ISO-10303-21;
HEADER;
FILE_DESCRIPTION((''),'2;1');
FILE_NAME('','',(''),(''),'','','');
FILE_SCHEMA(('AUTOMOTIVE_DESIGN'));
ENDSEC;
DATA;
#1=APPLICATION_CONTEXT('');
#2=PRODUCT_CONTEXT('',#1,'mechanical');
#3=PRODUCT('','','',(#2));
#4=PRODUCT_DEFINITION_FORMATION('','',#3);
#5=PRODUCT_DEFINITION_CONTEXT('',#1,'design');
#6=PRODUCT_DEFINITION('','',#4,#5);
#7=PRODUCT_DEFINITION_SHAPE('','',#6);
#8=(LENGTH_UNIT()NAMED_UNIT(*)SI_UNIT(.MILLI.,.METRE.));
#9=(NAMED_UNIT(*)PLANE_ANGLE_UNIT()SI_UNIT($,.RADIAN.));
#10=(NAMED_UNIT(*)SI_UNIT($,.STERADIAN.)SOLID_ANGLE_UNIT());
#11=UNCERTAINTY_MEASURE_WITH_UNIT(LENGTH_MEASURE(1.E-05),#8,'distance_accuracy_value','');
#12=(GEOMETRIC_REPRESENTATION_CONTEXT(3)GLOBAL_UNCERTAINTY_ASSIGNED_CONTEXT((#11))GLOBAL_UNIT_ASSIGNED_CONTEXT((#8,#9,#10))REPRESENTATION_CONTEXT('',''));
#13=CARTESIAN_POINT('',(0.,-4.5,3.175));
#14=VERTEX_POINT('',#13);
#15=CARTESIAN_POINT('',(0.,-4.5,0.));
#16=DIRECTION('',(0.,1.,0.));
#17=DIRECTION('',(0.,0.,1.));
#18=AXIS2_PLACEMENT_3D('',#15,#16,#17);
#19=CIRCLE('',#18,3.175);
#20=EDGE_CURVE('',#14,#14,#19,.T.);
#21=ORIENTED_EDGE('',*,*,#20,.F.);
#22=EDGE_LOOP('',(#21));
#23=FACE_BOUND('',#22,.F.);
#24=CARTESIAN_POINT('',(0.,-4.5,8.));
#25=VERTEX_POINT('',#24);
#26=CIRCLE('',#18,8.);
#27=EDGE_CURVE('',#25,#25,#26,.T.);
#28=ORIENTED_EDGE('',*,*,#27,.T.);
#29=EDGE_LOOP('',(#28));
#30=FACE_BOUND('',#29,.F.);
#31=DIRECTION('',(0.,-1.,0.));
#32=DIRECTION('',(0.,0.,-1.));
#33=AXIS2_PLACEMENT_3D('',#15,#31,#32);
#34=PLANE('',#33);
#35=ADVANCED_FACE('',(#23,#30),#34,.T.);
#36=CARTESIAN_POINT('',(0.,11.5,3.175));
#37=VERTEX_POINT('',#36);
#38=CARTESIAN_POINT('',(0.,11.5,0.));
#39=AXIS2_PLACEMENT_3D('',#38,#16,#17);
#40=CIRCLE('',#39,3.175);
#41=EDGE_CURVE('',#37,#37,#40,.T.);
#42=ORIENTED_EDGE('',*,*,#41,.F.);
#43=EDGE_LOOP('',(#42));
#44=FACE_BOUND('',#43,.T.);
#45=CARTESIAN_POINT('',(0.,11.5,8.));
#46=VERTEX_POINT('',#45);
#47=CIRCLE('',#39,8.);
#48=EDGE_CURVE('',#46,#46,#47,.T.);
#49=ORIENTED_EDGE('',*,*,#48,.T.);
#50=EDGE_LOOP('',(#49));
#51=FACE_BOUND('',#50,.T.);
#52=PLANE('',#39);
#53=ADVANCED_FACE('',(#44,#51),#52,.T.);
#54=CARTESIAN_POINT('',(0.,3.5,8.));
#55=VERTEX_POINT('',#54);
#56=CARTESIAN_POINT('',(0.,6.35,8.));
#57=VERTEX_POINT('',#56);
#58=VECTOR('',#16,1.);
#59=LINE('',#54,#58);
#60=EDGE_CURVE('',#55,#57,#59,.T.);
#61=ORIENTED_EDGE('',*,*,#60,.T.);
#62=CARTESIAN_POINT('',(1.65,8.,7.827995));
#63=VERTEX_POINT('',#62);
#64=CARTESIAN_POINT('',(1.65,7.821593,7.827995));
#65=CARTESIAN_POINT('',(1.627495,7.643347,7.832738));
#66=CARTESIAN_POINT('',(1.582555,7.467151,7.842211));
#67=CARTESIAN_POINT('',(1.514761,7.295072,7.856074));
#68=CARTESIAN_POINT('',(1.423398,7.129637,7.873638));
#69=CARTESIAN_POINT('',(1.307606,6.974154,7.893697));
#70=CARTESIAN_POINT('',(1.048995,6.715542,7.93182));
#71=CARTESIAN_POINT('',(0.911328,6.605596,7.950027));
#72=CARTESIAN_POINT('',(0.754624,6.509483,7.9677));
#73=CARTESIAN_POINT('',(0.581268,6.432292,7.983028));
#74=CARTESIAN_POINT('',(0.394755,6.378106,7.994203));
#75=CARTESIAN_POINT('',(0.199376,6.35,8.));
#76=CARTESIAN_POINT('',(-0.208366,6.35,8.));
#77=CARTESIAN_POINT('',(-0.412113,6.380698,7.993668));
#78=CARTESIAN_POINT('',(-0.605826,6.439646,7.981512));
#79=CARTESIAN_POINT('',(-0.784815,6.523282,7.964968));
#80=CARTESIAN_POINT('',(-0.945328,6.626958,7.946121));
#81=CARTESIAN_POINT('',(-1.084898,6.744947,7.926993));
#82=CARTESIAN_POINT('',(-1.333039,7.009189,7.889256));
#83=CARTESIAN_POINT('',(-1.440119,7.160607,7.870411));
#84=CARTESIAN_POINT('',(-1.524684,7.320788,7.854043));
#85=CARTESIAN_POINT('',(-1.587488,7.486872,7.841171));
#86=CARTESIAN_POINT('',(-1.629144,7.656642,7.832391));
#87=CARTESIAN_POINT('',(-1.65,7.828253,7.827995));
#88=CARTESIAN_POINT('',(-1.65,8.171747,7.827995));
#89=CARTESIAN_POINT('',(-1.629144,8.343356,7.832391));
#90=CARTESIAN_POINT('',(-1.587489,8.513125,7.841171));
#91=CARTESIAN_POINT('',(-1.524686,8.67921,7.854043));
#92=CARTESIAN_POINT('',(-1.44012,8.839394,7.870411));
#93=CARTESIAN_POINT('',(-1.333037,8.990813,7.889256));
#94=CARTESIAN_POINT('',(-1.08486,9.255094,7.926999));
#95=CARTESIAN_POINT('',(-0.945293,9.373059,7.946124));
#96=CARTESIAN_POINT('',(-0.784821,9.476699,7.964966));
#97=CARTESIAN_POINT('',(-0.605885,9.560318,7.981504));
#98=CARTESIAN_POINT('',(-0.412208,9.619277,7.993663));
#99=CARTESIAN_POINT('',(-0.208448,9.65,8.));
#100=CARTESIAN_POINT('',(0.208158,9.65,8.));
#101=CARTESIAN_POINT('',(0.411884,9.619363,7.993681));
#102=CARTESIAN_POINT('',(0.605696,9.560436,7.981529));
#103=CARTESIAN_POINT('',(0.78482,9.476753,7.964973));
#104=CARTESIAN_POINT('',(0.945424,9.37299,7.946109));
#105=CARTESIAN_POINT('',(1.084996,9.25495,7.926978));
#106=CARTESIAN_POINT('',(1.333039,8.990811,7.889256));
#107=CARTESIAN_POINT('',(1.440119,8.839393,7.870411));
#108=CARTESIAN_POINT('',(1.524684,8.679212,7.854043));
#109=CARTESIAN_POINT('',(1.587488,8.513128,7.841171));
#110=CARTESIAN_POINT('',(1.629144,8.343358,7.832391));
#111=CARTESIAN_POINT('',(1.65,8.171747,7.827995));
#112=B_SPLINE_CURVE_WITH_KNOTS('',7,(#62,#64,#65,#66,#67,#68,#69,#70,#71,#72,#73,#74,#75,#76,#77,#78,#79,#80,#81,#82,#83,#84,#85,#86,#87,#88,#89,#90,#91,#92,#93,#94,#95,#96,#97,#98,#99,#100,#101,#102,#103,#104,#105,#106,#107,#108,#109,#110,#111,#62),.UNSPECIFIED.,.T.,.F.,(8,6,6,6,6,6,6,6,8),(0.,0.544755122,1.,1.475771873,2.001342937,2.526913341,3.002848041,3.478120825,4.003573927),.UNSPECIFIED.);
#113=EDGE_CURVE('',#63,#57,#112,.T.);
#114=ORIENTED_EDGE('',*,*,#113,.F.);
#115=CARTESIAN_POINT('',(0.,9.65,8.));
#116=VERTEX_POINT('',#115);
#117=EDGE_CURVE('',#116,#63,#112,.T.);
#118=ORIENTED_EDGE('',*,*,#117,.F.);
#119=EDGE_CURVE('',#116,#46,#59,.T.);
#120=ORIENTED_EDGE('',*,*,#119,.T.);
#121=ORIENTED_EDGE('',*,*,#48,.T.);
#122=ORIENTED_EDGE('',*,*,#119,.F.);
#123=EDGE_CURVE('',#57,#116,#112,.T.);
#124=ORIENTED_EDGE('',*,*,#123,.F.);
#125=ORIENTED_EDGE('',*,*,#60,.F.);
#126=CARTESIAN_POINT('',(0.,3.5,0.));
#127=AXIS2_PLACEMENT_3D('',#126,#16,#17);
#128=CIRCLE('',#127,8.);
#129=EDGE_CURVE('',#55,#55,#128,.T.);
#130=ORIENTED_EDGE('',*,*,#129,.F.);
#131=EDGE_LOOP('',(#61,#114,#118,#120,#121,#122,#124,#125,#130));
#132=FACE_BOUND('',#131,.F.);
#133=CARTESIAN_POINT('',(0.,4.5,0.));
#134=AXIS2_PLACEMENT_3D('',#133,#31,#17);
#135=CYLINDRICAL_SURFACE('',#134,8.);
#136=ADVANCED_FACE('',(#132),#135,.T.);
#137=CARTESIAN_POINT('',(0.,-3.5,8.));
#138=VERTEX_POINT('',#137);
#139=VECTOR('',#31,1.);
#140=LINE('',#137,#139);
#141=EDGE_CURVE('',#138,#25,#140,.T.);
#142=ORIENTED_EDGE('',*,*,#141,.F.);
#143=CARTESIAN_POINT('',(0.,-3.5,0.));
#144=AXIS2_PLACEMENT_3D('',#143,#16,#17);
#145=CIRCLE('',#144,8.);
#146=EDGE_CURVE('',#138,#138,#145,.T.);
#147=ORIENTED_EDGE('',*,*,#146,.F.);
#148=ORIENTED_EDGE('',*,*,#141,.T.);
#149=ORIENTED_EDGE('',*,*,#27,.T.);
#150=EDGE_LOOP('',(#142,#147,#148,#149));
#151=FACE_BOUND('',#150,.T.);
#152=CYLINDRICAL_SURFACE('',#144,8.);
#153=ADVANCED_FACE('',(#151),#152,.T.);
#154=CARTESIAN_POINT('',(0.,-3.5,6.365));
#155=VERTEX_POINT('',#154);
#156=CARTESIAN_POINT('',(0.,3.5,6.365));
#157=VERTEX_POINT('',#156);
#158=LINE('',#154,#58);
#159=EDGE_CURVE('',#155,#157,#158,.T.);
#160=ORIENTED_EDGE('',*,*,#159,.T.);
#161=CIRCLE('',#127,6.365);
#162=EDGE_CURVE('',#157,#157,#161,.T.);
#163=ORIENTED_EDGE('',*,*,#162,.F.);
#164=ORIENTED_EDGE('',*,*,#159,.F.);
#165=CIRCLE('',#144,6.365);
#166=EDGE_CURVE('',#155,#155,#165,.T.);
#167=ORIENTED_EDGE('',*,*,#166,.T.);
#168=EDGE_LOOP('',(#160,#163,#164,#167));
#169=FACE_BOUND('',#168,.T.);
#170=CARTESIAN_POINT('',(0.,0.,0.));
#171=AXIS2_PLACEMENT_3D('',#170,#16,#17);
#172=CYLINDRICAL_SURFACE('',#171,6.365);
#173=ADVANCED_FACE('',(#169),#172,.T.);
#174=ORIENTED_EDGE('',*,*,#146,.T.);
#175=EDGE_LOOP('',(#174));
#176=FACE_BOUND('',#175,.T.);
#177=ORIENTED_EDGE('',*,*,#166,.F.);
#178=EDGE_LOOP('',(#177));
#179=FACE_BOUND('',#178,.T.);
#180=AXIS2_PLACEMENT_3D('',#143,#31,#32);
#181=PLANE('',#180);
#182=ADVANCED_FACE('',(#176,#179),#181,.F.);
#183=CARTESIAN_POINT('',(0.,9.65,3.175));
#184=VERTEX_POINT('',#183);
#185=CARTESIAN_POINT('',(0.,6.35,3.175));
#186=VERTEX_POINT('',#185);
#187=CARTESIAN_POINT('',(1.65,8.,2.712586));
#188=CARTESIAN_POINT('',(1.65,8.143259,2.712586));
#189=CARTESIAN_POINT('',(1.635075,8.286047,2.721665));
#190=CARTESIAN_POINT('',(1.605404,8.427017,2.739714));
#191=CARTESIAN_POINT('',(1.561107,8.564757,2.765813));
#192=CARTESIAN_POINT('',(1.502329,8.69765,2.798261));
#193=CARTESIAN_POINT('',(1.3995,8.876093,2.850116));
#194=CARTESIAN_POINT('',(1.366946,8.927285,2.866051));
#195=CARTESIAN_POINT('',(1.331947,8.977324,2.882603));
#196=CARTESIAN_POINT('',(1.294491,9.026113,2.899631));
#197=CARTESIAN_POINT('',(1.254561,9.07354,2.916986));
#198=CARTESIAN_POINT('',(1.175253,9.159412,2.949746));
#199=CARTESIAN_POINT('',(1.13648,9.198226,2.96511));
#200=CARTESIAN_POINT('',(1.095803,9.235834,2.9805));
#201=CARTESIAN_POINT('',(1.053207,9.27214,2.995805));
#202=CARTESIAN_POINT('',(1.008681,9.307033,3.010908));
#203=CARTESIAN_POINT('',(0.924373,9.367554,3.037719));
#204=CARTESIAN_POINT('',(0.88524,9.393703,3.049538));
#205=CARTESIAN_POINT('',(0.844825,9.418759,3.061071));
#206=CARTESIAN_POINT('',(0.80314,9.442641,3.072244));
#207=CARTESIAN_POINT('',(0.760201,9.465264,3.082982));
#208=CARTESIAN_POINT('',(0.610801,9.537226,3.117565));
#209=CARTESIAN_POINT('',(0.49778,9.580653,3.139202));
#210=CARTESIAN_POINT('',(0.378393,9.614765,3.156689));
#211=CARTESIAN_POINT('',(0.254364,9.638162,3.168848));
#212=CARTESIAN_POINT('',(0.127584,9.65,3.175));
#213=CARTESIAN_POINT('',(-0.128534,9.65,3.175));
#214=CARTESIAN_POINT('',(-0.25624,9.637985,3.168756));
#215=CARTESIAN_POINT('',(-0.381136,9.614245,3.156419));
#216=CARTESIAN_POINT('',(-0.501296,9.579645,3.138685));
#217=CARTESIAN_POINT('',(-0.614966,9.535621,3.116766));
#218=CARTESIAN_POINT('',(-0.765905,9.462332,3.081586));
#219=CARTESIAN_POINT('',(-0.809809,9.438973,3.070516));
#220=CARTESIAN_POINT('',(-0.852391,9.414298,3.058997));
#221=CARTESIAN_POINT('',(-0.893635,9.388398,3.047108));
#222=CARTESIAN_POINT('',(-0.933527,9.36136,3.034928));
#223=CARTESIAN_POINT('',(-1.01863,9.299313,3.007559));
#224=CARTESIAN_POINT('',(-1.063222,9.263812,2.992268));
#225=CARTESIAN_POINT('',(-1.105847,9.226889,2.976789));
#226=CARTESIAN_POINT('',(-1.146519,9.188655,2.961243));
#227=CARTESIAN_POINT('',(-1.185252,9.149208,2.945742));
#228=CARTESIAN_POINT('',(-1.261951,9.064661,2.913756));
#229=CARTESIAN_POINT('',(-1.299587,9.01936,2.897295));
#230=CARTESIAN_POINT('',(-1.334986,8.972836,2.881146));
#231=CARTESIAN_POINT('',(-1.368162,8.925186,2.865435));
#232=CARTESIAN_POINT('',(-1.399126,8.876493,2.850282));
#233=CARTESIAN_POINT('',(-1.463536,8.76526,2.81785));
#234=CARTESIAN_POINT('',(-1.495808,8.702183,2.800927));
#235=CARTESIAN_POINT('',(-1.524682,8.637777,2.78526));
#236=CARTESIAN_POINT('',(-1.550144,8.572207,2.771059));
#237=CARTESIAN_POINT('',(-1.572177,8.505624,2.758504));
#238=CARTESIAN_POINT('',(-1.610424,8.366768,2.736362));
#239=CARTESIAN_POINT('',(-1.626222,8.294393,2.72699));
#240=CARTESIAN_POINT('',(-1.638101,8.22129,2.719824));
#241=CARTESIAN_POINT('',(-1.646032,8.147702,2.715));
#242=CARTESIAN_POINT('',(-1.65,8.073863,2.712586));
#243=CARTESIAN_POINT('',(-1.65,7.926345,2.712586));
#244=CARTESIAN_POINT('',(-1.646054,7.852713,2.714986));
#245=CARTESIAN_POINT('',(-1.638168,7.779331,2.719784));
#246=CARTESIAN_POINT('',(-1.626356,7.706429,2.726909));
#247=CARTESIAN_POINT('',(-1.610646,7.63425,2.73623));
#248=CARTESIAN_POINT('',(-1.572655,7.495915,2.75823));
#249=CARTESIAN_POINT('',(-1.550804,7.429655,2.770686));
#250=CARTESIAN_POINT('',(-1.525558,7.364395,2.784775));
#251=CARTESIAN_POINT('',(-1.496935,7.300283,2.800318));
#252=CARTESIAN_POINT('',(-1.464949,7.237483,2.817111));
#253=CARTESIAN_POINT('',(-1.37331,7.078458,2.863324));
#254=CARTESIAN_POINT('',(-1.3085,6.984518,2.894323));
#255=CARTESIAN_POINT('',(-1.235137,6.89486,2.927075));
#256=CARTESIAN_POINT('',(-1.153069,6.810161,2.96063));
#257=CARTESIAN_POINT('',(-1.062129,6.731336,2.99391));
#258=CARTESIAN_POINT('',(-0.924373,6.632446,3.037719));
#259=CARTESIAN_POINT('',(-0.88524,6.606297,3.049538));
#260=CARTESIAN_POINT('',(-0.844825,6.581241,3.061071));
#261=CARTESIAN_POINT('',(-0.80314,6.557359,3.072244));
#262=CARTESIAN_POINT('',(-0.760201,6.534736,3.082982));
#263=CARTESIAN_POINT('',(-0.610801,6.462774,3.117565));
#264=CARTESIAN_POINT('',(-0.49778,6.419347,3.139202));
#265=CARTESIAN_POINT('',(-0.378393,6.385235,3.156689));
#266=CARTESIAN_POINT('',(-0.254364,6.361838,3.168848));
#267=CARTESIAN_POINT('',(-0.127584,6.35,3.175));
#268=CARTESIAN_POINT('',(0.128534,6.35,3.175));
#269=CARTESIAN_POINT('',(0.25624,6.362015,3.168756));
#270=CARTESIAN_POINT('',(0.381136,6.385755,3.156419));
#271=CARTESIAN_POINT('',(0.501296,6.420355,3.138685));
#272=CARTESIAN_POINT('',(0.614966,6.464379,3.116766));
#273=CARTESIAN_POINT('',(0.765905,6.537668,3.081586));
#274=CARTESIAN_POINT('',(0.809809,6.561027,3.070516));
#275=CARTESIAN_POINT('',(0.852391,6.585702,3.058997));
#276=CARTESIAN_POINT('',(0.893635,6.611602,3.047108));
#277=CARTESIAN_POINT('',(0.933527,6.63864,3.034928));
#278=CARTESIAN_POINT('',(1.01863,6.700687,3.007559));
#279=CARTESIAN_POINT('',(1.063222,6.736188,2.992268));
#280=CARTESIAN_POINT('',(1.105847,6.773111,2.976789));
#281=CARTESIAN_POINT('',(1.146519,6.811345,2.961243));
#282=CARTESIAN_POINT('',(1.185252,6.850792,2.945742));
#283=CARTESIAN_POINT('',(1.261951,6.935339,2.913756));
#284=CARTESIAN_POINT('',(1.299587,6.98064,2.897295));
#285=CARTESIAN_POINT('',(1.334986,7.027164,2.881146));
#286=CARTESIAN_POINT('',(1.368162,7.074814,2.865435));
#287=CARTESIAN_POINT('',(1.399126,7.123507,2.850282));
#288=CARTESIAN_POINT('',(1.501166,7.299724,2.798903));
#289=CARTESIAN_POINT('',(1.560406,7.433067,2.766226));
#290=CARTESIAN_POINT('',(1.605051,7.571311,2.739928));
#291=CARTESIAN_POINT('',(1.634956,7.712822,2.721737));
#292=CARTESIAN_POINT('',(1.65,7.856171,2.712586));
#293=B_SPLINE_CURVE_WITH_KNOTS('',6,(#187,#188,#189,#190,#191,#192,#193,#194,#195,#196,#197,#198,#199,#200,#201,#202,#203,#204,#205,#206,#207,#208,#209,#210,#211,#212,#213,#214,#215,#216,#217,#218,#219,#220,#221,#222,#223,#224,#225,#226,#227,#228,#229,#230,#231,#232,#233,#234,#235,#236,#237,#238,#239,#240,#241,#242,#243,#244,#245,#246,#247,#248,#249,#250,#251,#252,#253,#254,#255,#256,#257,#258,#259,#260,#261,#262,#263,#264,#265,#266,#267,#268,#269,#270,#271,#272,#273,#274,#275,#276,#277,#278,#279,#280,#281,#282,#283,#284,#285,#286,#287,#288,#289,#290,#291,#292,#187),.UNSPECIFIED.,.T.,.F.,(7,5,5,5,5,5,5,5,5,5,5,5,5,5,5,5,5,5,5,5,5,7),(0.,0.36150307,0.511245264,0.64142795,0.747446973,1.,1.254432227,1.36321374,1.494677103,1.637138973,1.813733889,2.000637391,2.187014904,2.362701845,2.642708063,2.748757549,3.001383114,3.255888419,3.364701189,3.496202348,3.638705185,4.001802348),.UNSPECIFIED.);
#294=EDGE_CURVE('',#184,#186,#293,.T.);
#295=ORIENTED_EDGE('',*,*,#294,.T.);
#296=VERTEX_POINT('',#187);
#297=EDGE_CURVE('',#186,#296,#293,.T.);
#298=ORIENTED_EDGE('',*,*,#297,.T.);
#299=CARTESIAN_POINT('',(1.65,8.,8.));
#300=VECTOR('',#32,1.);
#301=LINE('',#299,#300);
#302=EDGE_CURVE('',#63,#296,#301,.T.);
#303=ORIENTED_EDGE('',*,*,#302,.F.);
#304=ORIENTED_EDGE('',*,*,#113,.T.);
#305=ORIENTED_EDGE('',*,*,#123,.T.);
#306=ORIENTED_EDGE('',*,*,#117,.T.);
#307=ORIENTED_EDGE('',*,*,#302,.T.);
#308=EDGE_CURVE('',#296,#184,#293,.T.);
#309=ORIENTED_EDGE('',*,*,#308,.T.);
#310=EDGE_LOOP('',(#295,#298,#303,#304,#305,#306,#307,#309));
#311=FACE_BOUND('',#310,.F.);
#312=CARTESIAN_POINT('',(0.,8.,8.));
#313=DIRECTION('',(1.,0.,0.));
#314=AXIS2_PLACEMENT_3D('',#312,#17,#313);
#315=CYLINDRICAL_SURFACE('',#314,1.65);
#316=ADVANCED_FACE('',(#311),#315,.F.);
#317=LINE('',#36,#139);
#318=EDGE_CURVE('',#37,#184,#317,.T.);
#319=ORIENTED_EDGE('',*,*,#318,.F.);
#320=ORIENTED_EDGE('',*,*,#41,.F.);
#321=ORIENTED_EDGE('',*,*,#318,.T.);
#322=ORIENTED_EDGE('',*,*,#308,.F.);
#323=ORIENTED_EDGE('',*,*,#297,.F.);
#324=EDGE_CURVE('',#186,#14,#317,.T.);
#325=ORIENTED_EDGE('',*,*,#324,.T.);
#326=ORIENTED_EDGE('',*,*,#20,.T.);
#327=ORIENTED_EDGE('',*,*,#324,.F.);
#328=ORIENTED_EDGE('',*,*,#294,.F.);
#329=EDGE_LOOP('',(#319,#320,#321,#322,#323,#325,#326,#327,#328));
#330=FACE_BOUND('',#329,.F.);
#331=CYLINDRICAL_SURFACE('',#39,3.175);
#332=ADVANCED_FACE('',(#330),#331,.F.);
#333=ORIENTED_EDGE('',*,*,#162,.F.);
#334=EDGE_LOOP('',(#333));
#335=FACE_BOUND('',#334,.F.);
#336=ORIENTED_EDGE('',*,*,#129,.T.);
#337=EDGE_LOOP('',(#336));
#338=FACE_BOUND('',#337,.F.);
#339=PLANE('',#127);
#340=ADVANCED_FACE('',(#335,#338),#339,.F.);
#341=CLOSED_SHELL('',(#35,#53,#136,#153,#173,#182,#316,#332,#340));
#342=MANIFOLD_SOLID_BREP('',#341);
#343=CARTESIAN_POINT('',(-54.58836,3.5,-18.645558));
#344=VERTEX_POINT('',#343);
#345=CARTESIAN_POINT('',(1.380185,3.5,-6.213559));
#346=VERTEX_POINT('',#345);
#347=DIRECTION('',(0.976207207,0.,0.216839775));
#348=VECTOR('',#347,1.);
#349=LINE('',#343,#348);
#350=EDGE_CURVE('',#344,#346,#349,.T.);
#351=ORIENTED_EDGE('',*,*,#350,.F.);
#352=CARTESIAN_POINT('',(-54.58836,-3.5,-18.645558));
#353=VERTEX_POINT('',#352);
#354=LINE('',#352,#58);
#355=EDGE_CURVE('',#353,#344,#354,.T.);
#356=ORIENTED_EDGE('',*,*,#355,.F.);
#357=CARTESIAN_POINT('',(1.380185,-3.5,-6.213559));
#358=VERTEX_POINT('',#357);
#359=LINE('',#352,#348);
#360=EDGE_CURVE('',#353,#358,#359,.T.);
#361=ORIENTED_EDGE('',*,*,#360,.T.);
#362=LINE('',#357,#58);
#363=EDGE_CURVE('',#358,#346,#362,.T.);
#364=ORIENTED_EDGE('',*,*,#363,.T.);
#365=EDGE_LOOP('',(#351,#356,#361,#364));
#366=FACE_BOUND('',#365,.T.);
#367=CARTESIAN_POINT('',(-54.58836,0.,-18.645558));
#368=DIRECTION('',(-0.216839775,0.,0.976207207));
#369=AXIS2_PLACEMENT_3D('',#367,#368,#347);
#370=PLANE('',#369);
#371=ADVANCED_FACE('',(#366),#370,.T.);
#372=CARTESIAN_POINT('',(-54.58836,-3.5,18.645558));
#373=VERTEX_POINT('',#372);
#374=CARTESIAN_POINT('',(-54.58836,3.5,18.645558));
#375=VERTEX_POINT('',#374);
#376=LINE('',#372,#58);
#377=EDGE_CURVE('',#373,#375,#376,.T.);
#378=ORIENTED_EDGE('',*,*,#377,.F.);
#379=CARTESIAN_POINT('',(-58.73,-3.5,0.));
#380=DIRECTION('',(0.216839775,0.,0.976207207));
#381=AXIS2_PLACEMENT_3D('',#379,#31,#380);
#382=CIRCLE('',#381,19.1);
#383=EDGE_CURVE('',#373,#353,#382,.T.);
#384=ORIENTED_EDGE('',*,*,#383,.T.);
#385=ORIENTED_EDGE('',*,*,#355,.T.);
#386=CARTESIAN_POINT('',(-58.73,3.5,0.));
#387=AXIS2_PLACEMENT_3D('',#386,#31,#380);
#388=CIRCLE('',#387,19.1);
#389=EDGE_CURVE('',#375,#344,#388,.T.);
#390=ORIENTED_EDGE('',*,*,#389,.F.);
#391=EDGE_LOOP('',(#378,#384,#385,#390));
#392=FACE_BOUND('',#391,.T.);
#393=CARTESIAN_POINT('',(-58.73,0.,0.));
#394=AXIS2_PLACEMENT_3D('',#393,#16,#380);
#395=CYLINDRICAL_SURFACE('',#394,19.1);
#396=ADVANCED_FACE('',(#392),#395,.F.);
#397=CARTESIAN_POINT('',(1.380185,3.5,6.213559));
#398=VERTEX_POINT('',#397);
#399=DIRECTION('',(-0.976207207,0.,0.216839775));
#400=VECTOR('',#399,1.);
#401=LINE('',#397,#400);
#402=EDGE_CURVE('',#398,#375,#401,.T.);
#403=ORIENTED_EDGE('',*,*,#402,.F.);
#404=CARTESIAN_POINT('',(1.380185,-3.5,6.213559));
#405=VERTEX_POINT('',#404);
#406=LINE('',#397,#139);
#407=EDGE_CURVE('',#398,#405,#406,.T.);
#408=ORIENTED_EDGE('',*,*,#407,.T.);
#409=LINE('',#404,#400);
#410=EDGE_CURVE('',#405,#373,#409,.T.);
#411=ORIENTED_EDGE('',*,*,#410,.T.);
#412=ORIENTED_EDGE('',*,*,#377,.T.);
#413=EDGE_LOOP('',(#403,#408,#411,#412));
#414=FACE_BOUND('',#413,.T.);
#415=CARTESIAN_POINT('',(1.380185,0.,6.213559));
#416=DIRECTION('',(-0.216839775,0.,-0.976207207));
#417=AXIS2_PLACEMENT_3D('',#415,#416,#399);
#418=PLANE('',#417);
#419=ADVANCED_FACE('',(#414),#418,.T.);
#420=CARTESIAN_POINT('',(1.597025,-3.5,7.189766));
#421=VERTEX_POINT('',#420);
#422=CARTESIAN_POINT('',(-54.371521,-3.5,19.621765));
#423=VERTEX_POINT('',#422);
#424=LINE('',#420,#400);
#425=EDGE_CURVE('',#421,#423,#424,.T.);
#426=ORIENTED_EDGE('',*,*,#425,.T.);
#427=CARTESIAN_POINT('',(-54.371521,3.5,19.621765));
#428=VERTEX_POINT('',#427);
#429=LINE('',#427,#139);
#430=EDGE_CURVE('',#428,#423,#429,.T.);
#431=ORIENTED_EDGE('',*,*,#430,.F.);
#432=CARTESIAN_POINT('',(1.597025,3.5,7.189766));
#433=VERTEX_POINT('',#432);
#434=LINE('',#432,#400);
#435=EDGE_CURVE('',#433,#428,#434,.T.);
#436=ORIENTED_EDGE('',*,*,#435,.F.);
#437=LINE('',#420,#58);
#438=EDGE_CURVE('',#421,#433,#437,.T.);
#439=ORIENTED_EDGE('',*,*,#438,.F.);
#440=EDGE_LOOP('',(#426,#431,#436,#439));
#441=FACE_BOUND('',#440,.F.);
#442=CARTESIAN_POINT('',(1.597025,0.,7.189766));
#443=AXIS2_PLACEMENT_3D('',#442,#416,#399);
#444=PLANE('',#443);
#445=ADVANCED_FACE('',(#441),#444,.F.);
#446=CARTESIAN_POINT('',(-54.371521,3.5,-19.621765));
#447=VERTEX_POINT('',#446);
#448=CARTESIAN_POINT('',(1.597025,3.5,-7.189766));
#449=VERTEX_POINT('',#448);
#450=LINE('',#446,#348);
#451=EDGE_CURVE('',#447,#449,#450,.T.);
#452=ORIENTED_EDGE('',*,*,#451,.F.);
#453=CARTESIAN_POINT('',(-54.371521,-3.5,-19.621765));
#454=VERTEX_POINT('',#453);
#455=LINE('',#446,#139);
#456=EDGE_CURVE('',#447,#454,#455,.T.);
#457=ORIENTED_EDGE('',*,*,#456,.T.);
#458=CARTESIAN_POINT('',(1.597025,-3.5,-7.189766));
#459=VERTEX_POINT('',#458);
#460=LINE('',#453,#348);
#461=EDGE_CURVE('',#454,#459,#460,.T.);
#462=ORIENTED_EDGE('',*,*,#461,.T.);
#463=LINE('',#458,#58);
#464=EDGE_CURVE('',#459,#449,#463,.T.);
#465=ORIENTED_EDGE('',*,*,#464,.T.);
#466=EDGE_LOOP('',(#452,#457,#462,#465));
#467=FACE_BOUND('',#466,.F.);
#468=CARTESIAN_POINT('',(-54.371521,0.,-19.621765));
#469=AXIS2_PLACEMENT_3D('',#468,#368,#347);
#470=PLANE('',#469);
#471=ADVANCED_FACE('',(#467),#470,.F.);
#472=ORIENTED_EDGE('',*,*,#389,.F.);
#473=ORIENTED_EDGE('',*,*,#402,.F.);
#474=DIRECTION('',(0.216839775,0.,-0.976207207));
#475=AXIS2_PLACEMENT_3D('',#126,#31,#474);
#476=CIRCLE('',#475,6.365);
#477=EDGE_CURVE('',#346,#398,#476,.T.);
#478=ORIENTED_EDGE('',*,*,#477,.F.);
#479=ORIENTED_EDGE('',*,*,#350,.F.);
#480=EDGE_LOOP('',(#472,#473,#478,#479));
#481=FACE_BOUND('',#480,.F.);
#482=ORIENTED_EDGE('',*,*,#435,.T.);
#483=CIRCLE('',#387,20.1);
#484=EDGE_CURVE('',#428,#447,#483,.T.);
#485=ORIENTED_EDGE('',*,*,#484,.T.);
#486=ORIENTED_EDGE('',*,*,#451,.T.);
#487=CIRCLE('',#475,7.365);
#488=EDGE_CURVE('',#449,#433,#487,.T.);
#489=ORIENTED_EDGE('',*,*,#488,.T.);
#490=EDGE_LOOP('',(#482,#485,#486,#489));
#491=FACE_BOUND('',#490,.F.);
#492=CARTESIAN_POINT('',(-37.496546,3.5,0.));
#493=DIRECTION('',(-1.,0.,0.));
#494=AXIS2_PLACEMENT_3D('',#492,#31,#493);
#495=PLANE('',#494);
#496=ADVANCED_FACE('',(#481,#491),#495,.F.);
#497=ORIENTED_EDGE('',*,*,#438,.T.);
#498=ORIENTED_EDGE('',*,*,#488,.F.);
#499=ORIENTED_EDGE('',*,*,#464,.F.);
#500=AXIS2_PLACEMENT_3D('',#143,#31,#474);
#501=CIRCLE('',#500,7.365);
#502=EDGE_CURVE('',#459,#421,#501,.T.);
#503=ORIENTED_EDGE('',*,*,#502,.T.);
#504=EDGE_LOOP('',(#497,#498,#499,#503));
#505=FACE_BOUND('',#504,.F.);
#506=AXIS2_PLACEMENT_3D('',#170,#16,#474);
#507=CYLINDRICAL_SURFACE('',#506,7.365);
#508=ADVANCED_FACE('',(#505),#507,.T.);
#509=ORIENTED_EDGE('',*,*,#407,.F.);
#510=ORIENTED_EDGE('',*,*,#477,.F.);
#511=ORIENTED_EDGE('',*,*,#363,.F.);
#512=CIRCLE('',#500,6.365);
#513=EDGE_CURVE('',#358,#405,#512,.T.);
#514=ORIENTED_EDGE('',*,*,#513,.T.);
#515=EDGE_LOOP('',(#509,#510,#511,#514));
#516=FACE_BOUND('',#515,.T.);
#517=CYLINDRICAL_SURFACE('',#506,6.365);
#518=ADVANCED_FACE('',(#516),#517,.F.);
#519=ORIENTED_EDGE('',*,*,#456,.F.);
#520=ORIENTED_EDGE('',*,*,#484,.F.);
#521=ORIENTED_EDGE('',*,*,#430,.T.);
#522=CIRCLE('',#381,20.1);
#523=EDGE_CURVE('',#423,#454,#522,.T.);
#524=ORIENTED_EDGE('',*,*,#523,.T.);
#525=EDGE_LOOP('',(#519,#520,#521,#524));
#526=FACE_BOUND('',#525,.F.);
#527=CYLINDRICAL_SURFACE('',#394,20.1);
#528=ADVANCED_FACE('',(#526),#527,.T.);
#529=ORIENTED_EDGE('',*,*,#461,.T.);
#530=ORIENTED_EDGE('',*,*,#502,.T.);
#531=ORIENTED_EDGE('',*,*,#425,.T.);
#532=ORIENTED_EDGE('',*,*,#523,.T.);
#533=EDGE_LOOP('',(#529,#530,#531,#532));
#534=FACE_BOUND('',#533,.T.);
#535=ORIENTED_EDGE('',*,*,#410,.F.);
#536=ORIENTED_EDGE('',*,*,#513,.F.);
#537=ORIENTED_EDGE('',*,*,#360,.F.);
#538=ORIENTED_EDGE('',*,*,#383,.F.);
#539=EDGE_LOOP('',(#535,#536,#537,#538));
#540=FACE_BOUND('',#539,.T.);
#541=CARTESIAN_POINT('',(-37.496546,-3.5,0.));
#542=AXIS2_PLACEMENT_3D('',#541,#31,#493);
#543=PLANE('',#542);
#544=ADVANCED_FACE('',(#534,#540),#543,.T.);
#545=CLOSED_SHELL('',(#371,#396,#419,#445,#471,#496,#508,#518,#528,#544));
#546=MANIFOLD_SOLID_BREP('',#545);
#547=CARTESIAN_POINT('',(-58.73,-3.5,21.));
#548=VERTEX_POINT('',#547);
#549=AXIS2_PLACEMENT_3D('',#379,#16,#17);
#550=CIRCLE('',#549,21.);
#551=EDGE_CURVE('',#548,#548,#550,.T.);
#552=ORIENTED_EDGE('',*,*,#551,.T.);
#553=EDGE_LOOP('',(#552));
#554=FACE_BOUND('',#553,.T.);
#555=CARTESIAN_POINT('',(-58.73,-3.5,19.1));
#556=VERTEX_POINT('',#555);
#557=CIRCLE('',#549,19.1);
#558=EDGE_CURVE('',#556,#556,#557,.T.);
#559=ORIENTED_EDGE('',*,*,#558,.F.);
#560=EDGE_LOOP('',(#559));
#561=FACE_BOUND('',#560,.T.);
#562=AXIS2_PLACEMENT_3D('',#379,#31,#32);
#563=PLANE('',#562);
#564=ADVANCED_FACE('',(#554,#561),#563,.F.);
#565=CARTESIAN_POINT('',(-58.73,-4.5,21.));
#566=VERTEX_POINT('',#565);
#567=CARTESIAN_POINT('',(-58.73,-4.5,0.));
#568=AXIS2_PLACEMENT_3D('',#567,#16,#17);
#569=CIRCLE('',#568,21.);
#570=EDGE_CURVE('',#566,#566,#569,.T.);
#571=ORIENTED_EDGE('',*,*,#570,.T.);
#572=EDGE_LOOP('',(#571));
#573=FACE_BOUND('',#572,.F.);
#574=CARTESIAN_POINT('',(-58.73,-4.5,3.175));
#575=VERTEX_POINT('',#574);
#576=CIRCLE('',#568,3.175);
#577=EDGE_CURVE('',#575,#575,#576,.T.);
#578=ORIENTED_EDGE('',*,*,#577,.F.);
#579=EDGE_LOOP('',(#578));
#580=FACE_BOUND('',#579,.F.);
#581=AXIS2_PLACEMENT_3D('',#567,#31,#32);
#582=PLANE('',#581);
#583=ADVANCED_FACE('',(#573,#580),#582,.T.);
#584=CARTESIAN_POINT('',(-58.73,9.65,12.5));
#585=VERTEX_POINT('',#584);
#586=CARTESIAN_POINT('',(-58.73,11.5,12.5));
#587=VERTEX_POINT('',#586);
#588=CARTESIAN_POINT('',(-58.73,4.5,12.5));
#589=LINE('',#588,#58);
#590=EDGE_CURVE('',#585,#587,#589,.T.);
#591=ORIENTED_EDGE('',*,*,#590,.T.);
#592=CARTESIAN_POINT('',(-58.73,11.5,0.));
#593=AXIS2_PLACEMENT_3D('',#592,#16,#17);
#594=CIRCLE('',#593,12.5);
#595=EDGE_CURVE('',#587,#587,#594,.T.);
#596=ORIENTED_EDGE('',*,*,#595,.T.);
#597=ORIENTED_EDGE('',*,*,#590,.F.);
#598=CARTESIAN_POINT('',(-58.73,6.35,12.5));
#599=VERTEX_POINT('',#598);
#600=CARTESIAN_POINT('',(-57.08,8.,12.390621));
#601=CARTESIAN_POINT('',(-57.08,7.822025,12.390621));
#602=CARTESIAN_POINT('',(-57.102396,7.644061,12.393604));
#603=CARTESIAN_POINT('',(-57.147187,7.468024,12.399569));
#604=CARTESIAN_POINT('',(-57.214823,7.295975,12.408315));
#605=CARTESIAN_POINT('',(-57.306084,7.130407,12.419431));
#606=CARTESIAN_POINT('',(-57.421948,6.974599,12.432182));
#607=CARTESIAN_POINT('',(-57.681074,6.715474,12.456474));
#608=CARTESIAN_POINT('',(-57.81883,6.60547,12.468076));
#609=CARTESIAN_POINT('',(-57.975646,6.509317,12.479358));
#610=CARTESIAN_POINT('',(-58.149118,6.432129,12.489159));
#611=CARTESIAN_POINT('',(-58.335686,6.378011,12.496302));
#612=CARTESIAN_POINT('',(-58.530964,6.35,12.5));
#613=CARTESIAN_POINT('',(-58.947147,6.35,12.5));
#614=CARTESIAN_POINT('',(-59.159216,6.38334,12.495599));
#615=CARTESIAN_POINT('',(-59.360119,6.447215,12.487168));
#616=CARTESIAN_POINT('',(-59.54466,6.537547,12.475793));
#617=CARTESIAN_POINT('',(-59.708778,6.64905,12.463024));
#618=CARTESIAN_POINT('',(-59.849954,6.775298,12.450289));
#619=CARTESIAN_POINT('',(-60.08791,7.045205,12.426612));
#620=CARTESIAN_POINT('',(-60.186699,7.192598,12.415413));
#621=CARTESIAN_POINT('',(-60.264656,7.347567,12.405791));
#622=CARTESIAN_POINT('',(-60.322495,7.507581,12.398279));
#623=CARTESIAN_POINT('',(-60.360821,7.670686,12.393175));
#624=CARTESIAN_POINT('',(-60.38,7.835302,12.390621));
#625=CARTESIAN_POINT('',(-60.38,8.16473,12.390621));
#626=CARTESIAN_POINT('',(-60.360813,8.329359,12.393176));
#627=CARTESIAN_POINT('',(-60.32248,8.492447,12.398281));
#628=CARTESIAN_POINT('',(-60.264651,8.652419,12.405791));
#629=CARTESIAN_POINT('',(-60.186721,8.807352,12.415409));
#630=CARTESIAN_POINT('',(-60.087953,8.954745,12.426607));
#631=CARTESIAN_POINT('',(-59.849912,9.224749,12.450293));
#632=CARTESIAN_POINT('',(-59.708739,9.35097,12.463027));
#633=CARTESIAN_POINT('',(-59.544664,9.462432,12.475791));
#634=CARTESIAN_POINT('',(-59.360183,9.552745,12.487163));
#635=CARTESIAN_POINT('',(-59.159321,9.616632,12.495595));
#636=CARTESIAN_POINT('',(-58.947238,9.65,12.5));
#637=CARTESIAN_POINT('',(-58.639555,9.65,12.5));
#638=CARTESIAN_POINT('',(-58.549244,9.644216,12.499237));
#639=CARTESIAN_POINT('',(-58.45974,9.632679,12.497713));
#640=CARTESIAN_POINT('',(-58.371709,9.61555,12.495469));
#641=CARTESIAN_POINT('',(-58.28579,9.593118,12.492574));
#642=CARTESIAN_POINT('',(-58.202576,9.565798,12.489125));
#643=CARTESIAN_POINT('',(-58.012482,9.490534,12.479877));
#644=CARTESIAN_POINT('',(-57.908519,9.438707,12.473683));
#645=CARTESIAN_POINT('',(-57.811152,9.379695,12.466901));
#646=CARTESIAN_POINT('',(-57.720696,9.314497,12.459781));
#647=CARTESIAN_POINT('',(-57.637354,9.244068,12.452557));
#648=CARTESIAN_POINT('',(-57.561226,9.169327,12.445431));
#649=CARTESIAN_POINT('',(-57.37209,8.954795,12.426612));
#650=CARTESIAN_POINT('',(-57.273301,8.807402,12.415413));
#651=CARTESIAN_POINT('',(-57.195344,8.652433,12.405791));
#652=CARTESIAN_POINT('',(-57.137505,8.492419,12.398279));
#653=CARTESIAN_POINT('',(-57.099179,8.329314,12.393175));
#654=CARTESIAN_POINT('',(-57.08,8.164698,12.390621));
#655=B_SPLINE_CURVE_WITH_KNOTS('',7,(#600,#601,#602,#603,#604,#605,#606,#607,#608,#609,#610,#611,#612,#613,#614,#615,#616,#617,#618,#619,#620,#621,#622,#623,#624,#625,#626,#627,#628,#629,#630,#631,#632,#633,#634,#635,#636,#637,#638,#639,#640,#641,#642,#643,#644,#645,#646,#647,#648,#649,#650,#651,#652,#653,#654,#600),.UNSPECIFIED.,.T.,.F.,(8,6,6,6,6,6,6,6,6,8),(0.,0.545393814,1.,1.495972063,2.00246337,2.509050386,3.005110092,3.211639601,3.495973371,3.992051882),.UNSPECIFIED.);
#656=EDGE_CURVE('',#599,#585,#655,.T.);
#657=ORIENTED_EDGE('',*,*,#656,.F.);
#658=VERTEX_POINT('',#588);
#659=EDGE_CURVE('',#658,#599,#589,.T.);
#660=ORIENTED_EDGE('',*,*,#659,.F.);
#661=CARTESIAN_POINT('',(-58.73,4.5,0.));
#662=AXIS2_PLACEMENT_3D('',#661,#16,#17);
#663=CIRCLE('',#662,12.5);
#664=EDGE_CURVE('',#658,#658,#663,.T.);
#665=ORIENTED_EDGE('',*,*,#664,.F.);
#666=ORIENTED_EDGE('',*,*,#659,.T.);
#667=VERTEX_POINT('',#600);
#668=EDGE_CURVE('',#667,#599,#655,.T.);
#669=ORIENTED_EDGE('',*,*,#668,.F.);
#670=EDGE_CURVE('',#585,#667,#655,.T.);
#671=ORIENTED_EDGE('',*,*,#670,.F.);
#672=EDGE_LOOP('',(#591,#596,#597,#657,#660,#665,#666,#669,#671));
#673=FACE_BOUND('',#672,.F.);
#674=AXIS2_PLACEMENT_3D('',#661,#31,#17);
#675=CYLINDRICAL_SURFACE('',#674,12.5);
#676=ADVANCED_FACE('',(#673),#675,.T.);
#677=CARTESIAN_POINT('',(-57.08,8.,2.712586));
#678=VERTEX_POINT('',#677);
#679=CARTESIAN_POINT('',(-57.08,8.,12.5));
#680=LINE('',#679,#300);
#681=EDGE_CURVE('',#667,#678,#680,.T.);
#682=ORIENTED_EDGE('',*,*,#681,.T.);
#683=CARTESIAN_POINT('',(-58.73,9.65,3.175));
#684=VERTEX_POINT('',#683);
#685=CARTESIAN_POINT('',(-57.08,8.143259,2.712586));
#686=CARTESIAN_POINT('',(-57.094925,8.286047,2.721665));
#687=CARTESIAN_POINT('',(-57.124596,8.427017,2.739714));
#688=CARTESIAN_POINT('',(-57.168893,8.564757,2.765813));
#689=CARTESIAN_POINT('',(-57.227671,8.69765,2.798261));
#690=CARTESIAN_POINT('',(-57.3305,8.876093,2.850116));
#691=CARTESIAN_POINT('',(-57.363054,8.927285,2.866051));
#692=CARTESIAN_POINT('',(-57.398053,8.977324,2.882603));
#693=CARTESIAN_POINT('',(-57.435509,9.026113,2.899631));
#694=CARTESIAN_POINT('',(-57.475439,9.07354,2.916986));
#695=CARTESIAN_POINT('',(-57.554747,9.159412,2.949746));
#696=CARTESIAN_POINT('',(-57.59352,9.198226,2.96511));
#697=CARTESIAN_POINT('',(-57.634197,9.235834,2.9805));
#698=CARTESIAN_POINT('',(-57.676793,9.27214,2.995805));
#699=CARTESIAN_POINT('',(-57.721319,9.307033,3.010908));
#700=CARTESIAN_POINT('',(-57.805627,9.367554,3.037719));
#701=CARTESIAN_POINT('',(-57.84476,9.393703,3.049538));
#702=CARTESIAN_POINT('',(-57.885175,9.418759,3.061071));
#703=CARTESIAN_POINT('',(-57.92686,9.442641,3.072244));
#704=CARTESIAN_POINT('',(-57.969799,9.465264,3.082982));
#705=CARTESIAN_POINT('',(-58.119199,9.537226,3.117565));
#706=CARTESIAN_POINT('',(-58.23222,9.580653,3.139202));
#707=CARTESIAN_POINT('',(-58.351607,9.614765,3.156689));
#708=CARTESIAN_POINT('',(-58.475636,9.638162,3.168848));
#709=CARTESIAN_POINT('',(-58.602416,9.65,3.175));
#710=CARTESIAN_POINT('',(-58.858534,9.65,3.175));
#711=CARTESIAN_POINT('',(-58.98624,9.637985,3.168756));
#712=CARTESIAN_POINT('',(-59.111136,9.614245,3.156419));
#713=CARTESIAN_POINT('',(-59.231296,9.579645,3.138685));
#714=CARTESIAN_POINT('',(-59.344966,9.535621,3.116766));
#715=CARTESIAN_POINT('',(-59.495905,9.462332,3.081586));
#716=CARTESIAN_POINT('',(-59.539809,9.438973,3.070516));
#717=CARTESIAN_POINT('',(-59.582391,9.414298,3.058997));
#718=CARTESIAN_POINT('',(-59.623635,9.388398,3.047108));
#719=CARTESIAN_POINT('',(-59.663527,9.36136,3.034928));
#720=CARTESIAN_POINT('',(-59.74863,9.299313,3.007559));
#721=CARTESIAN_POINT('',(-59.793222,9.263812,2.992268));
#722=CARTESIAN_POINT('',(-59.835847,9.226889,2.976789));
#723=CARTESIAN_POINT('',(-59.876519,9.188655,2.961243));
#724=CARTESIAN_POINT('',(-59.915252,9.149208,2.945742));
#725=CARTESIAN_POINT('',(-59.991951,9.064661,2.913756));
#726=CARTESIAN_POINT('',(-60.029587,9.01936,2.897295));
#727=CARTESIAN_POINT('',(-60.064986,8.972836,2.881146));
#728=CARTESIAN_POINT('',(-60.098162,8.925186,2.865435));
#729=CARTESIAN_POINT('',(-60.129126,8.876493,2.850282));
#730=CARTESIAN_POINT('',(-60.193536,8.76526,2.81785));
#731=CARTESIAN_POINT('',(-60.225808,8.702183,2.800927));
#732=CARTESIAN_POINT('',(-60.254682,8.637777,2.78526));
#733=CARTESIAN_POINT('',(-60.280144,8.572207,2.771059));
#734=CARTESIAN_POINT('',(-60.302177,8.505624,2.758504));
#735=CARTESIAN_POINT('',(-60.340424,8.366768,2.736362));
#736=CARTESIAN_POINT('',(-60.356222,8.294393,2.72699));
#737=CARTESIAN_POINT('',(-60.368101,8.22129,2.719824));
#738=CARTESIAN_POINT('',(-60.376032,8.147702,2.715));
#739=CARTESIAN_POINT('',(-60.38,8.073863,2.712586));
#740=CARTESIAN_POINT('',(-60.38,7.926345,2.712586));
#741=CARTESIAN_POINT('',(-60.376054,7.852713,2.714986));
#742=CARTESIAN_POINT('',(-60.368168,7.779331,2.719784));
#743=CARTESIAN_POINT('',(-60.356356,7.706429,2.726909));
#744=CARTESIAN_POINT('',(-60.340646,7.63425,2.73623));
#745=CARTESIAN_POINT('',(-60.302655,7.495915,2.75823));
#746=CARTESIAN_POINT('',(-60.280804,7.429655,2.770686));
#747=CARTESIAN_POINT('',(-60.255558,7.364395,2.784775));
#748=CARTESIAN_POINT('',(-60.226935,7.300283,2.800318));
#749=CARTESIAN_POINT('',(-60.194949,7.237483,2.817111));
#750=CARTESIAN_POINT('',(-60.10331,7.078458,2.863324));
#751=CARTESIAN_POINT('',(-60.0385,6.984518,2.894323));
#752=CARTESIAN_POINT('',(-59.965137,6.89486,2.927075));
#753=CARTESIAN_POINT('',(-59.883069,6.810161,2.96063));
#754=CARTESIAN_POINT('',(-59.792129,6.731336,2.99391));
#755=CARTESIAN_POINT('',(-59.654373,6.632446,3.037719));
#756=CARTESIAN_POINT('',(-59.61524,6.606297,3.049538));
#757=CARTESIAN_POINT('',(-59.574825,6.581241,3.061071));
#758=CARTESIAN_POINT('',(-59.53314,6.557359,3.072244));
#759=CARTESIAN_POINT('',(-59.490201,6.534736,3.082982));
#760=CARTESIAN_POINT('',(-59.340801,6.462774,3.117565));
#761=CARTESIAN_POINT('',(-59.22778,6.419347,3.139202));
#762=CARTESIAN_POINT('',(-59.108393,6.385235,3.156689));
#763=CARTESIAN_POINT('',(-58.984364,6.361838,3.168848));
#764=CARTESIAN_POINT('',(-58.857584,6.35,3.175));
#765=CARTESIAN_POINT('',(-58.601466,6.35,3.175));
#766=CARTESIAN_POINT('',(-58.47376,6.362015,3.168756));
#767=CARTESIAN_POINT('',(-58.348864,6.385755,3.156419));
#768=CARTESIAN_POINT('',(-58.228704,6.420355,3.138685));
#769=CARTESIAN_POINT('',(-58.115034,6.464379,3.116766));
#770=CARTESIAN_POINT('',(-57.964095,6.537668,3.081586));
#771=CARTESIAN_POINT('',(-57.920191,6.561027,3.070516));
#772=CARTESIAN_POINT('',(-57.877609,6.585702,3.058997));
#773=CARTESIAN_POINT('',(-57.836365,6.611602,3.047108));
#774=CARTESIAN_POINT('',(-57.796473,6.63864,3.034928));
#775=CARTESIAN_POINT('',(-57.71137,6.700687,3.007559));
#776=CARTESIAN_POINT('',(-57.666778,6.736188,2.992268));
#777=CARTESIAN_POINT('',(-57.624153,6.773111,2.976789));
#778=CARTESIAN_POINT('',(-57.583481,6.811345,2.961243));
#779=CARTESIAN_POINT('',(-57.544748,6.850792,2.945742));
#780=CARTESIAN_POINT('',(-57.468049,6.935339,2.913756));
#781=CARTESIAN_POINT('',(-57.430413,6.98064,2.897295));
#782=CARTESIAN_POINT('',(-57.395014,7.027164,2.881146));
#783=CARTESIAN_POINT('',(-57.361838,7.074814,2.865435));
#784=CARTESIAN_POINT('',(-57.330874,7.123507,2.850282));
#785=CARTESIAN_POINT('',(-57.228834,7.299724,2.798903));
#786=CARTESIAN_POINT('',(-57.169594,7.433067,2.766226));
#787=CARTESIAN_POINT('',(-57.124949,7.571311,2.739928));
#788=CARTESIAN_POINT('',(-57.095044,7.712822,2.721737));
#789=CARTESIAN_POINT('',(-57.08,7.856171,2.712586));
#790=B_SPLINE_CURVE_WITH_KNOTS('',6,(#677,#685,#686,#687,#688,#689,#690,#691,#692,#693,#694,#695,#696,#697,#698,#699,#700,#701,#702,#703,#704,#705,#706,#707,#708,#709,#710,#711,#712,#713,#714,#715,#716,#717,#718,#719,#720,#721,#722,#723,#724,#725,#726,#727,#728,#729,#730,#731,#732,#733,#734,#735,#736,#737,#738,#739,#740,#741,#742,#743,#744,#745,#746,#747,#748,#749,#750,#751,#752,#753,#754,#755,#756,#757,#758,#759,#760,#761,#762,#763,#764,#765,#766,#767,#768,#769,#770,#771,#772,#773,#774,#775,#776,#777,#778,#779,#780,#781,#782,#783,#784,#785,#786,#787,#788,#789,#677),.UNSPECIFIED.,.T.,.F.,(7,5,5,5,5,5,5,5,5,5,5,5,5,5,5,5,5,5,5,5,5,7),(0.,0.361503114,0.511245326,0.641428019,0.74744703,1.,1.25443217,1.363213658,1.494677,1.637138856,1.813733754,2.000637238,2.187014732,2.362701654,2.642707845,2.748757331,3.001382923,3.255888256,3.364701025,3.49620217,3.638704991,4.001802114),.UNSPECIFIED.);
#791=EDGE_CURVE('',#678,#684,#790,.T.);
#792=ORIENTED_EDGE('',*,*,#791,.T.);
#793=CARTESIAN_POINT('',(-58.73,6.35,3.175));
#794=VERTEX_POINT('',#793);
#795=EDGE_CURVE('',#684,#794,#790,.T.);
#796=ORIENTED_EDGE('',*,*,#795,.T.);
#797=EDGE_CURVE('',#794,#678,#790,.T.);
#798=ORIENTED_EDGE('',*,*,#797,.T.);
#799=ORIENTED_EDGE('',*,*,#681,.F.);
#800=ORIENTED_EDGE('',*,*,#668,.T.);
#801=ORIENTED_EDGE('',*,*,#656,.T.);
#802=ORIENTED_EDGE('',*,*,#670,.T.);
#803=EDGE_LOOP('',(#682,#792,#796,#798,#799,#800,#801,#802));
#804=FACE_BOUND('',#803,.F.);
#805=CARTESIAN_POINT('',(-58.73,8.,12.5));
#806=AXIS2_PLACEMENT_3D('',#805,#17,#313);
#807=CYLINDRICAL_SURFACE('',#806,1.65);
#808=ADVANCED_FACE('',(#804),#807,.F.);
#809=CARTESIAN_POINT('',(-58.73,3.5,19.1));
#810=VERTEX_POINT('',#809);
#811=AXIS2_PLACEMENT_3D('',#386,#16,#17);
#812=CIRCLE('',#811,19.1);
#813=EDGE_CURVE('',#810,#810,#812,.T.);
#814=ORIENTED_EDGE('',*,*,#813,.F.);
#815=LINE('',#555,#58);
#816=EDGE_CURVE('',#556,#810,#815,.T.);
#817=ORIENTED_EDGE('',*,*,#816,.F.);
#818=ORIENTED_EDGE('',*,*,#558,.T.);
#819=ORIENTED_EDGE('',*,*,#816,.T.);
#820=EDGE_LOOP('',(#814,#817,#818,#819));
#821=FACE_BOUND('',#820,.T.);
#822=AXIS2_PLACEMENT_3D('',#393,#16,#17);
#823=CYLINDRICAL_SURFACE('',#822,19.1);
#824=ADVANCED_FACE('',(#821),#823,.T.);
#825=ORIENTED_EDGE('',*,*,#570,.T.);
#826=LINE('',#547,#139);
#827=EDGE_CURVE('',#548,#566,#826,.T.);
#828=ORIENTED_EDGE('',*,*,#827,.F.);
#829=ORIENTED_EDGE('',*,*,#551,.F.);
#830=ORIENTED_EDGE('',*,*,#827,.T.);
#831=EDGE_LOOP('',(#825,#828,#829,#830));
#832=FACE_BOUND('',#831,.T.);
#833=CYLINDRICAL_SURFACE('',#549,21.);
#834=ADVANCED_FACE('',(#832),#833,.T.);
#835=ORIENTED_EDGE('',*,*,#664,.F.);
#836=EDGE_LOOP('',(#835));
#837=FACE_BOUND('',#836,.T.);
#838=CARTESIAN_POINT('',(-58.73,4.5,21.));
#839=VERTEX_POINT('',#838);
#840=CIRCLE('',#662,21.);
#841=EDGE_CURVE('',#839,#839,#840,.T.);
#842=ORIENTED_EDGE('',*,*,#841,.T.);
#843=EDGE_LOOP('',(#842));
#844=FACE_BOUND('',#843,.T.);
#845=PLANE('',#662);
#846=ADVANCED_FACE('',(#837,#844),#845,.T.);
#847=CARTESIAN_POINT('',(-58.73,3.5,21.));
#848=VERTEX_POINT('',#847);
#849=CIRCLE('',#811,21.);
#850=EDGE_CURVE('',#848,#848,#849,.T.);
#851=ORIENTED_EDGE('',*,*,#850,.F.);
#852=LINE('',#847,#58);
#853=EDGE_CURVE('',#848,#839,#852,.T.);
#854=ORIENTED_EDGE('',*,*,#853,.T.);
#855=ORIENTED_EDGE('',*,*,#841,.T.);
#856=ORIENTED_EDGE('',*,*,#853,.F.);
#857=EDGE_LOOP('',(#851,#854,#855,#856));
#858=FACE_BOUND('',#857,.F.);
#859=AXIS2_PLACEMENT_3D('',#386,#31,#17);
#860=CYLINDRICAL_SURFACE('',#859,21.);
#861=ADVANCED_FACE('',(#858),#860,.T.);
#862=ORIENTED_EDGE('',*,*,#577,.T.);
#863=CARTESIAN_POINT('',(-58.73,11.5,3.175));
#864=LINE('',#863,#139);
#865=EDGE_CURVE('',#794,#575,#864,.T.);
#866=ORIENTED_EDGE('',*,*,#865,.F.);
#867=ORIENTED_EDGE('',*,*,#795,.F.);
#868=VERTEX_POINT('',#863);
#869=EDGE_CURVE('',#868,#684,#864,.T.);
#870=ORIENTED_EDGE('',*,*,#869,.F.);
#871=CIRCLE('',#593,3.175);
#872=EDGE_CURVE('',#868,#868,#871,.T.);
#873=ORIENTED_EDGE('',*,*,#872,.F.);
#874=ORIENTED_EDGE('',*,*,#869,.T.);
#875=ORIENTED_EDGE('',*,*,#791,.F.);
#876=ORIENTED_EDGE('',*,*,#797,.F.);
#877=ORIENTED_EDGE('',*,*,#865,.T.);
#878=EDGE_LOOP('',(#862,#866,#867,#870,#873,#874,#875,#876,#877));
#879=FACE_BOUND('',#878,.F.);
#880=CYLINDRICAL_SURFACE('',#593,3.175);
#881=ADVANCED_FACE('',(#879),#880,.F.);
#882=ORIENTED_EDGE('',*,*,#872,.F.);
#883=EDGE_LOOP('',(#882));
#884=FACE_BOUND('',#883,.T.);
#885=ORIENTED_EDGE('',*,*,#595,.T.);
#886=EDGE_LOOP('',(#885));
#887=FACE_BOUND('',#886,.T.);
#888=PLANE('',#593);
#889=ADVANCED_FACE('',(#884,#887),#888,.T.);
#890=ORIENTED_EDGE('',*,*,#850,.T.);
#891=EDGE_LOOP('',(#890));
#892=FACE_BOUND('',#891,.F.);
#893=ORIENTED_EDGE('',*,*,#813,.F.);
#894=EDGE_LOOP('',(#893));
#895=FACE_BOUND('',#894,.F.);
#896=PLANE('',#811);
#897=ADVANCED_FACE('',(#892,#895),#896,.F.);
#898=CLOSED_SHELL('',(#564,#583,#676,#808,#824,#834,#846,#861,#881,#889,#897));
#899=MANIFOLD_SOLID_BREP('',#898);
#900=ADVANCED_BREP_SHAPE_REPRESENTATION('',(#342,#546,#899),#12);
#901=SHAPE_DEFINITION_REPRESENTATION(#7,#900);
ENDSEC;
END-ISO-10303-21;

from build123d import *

# Parameters (mm, degrees)
SKETCH1_R                  = 19.1
BOSS_EXTRUDE1_DEPTH        = 3.5
SKETCH1_R_2                = 6.365
BOSS_EXTRUDE1_2_DEPTH      = 3.5
SKETCH3_R                  = 21
SKETCH3_R_2                = 8
BOSS_EXTRUDE2_DEPTH        = 1
SKETCH4_R                  = 12.5
SKETCH4_R_2                = 8
BOSS_EXTRUDE3_DEPTH        = 7
SKETCH5_R                  = 3.175
CUT_EXTRUDE1_DEPTH         = 84.987337736
M4X0_7_TAPPED_HOLE1_REACH  = 89.243
M4X0_7_TAPPED_HOLE1_BORE_R = 1.65
M4X0_7_TAPPED_HOLE2_REACH  = 87.616
M4X0_7_TAPPED_HOLE2_BORE_R = 1.65
EXTRUDE_THIN1_DEPTH        = 3.5


with BuildPart() as part:
    # Sketch1 → Boss-Extrude1 (new body)
    with BuildSketch(Plane(origin=(0, 0, 0), x_dir=(1, 0, 0), z_dir=(0, 1, 0))):
        with Locations(Location((-58.73, 0, 0), (0, 0, 270))):
            Circle(SKETCH1_R)
    extrude(amount=BOSS_EXTRUDE1_DEPTH)



with BuildPart() as body_2:
    # Sketch1 → Boss-Extrude1 2 (new body)
    with BuildSketch(Plane(origin=(0, 0, 0), x_dir=(1, 0, 0), z_dir=(0, 1, 0))):
        with Locations(Location((0, 0, 0), (0, 0, 270))):
            Circle(SKETCH1_R_2)
    extrude(amount=BOSS_EXTRUDE1_2_DEPTH)


with BuildPart() as part_1:
    add(part.part)

    add(body_2.part)  # Boss-Extrude2 merges body 2
    # Sketch3 → Boss-Extrude2 (add)
    with BuildSketch(Plane(origin=(0, 3.5, 0), x_dir=(1, 0, 0), z_dir=(0, 1, 0))):
        with Locations(Location((-58.73, 0, 0), (0, 0, 270))):
            Circle(SKETCH3_R)
        with Locations(Location((0, 0, 0), (0, 0, 270))):
            Circle(SKETCH3_R_2)
    extrude(amount=BOSS_EXTRUDE2_DEPTH)

    # Mirror1: part across plane


with BuildPart() as part_2:
    add(part_1.part)
    add(part_1.part.mirror(Plane.ZX))

    # Sketch4 → Boss-Extrude3 (add)
    with BuildSketch(Plane(origin=(0, 4.5, 0), x_dir=(1, 0, 0), z_dir=(0, 1, 0))):
        with Locations(Location((-58.73, 0, 0), (0, 0, 270))):
            Circle(SKETCH4_R)
        with Locations(Location((0, 0, 0), (0, 0, 270))):
            Circle(SKETCH4_R_2)
    extrude(amount=BOSS_EXTRUDE3_DEPTH)

    # Sketch5 → Cut-Extrude1 (cut, through all)
    with BuildSketch(Plane(origin=(0, 11.5, 0), x_dir=(1, 0, 0), z_dir=(0, 1, 0))):
        with Locations(Location((0, 0, 0), (0, 0, 270))):
            Circle(SKETCH5_R)
        with Locations(Location((-58.73, 0, 0), (0, 0, 270))):
            Circle(SKETCH5_R)
    extrude(amount=-CUT_EXTRUDE1_DEPTH, mode=Mode.SUBTRACT)

    # M4x0.7 Tapped Hole1 bore → M4x0.7 Tapped Hole1 (cut, up to next)
    with BuildSketch(Plane.XY.offset(12.5), mode=Mode.PRIVATE) as m4x0_7_tapped_hole1_sk1:
        with Locations((-58.73, 8)):
            Circle(M4X0_7_TAPPED_HOLE1_BORE_R)
    m4x0_7_tapped_hole1_tool1 = extrude(m4x0_7_tapped_hole1_sk1.sketch, amount=-M4X0_7_TAPPED_HOLE1_REACH, mode=Mode.PRIVATE) & part_2.part
    add(m4x0_7_tapped_hole1_tool1.solids().sort_by_distance((-58.73, 8, 12.5))[0], mode=Mode.SUBTRACT)

    # M4x0.7 Tapped Hole2 bore → M4x0.7 Tapped Hole2 (cut, up to next)
    with BuildSketch(Plane.XY.offset(8), mode=Mode.PRIVATE) as m4x0_7_tapped_hole2_sk1:
        with Locations((0, 8)):
            Circle(M4X0_7_TAPPED_HOLE2_BORE_R)
    m4x0_7_tapped_hole2_tool1 = extrude(m4x0_7_tapped_hole2_sk1.sketch, amount=-M4X0_7_TAPPED_HOLE2_REACH, mode=Mode.PRIVATE) & part_2.part
    add(m4x0_7_tapped_hole2_tool1.solids().sort_by_distance((0, 8, 8))[0], mode=Mode.SUBTRACT)


with BuildPart() as body_2_2:
    # Sketch2 → Extrude-Thin1 (new, symmetric)
    with BuildSketch(Plane(origin=(0, 0, 0), x_dir=(1, 0, 0), z_dir=(0, 1, 0))):
        with BuildLine():
            Line((1.597024945, -7.189766083), (-54.371520518, -19.62176487))
            ThreePointArc((-54.371520518, -19.62176487), (-78.83, 0), (-54.371520518, 19.62176487))
            Line((-54.371520518, 19.62176487), (1.597024945, 7.189766083))
            ThreePointArc((1.597024945, 7.189766083), (7.365, 0), (1.597024945, -7.189766083))
        make_face()
        with BuildLine():
            Line((1.380185169, -6.213558875), (-54.588360293, -18.645557662))
            ThreePointArc((-54.588360293, -18.645557662), (-77.83, 0), (-54.588360293, 18.645557662))
            Line((-54.588360293, 18.645557662), (1.380185169, 6.213558875))
            ThreePointArc((1.380185169, 6.213558875), (6.365, 0), (1.380185169, -6.213558875))
        make_face(mode=Mode.SUBTRACT)
    extrude(amount=EXTRUDE_THIN1_DEPTH, both=True)


solid = Compound([part_2.part, body_2_2.part])
